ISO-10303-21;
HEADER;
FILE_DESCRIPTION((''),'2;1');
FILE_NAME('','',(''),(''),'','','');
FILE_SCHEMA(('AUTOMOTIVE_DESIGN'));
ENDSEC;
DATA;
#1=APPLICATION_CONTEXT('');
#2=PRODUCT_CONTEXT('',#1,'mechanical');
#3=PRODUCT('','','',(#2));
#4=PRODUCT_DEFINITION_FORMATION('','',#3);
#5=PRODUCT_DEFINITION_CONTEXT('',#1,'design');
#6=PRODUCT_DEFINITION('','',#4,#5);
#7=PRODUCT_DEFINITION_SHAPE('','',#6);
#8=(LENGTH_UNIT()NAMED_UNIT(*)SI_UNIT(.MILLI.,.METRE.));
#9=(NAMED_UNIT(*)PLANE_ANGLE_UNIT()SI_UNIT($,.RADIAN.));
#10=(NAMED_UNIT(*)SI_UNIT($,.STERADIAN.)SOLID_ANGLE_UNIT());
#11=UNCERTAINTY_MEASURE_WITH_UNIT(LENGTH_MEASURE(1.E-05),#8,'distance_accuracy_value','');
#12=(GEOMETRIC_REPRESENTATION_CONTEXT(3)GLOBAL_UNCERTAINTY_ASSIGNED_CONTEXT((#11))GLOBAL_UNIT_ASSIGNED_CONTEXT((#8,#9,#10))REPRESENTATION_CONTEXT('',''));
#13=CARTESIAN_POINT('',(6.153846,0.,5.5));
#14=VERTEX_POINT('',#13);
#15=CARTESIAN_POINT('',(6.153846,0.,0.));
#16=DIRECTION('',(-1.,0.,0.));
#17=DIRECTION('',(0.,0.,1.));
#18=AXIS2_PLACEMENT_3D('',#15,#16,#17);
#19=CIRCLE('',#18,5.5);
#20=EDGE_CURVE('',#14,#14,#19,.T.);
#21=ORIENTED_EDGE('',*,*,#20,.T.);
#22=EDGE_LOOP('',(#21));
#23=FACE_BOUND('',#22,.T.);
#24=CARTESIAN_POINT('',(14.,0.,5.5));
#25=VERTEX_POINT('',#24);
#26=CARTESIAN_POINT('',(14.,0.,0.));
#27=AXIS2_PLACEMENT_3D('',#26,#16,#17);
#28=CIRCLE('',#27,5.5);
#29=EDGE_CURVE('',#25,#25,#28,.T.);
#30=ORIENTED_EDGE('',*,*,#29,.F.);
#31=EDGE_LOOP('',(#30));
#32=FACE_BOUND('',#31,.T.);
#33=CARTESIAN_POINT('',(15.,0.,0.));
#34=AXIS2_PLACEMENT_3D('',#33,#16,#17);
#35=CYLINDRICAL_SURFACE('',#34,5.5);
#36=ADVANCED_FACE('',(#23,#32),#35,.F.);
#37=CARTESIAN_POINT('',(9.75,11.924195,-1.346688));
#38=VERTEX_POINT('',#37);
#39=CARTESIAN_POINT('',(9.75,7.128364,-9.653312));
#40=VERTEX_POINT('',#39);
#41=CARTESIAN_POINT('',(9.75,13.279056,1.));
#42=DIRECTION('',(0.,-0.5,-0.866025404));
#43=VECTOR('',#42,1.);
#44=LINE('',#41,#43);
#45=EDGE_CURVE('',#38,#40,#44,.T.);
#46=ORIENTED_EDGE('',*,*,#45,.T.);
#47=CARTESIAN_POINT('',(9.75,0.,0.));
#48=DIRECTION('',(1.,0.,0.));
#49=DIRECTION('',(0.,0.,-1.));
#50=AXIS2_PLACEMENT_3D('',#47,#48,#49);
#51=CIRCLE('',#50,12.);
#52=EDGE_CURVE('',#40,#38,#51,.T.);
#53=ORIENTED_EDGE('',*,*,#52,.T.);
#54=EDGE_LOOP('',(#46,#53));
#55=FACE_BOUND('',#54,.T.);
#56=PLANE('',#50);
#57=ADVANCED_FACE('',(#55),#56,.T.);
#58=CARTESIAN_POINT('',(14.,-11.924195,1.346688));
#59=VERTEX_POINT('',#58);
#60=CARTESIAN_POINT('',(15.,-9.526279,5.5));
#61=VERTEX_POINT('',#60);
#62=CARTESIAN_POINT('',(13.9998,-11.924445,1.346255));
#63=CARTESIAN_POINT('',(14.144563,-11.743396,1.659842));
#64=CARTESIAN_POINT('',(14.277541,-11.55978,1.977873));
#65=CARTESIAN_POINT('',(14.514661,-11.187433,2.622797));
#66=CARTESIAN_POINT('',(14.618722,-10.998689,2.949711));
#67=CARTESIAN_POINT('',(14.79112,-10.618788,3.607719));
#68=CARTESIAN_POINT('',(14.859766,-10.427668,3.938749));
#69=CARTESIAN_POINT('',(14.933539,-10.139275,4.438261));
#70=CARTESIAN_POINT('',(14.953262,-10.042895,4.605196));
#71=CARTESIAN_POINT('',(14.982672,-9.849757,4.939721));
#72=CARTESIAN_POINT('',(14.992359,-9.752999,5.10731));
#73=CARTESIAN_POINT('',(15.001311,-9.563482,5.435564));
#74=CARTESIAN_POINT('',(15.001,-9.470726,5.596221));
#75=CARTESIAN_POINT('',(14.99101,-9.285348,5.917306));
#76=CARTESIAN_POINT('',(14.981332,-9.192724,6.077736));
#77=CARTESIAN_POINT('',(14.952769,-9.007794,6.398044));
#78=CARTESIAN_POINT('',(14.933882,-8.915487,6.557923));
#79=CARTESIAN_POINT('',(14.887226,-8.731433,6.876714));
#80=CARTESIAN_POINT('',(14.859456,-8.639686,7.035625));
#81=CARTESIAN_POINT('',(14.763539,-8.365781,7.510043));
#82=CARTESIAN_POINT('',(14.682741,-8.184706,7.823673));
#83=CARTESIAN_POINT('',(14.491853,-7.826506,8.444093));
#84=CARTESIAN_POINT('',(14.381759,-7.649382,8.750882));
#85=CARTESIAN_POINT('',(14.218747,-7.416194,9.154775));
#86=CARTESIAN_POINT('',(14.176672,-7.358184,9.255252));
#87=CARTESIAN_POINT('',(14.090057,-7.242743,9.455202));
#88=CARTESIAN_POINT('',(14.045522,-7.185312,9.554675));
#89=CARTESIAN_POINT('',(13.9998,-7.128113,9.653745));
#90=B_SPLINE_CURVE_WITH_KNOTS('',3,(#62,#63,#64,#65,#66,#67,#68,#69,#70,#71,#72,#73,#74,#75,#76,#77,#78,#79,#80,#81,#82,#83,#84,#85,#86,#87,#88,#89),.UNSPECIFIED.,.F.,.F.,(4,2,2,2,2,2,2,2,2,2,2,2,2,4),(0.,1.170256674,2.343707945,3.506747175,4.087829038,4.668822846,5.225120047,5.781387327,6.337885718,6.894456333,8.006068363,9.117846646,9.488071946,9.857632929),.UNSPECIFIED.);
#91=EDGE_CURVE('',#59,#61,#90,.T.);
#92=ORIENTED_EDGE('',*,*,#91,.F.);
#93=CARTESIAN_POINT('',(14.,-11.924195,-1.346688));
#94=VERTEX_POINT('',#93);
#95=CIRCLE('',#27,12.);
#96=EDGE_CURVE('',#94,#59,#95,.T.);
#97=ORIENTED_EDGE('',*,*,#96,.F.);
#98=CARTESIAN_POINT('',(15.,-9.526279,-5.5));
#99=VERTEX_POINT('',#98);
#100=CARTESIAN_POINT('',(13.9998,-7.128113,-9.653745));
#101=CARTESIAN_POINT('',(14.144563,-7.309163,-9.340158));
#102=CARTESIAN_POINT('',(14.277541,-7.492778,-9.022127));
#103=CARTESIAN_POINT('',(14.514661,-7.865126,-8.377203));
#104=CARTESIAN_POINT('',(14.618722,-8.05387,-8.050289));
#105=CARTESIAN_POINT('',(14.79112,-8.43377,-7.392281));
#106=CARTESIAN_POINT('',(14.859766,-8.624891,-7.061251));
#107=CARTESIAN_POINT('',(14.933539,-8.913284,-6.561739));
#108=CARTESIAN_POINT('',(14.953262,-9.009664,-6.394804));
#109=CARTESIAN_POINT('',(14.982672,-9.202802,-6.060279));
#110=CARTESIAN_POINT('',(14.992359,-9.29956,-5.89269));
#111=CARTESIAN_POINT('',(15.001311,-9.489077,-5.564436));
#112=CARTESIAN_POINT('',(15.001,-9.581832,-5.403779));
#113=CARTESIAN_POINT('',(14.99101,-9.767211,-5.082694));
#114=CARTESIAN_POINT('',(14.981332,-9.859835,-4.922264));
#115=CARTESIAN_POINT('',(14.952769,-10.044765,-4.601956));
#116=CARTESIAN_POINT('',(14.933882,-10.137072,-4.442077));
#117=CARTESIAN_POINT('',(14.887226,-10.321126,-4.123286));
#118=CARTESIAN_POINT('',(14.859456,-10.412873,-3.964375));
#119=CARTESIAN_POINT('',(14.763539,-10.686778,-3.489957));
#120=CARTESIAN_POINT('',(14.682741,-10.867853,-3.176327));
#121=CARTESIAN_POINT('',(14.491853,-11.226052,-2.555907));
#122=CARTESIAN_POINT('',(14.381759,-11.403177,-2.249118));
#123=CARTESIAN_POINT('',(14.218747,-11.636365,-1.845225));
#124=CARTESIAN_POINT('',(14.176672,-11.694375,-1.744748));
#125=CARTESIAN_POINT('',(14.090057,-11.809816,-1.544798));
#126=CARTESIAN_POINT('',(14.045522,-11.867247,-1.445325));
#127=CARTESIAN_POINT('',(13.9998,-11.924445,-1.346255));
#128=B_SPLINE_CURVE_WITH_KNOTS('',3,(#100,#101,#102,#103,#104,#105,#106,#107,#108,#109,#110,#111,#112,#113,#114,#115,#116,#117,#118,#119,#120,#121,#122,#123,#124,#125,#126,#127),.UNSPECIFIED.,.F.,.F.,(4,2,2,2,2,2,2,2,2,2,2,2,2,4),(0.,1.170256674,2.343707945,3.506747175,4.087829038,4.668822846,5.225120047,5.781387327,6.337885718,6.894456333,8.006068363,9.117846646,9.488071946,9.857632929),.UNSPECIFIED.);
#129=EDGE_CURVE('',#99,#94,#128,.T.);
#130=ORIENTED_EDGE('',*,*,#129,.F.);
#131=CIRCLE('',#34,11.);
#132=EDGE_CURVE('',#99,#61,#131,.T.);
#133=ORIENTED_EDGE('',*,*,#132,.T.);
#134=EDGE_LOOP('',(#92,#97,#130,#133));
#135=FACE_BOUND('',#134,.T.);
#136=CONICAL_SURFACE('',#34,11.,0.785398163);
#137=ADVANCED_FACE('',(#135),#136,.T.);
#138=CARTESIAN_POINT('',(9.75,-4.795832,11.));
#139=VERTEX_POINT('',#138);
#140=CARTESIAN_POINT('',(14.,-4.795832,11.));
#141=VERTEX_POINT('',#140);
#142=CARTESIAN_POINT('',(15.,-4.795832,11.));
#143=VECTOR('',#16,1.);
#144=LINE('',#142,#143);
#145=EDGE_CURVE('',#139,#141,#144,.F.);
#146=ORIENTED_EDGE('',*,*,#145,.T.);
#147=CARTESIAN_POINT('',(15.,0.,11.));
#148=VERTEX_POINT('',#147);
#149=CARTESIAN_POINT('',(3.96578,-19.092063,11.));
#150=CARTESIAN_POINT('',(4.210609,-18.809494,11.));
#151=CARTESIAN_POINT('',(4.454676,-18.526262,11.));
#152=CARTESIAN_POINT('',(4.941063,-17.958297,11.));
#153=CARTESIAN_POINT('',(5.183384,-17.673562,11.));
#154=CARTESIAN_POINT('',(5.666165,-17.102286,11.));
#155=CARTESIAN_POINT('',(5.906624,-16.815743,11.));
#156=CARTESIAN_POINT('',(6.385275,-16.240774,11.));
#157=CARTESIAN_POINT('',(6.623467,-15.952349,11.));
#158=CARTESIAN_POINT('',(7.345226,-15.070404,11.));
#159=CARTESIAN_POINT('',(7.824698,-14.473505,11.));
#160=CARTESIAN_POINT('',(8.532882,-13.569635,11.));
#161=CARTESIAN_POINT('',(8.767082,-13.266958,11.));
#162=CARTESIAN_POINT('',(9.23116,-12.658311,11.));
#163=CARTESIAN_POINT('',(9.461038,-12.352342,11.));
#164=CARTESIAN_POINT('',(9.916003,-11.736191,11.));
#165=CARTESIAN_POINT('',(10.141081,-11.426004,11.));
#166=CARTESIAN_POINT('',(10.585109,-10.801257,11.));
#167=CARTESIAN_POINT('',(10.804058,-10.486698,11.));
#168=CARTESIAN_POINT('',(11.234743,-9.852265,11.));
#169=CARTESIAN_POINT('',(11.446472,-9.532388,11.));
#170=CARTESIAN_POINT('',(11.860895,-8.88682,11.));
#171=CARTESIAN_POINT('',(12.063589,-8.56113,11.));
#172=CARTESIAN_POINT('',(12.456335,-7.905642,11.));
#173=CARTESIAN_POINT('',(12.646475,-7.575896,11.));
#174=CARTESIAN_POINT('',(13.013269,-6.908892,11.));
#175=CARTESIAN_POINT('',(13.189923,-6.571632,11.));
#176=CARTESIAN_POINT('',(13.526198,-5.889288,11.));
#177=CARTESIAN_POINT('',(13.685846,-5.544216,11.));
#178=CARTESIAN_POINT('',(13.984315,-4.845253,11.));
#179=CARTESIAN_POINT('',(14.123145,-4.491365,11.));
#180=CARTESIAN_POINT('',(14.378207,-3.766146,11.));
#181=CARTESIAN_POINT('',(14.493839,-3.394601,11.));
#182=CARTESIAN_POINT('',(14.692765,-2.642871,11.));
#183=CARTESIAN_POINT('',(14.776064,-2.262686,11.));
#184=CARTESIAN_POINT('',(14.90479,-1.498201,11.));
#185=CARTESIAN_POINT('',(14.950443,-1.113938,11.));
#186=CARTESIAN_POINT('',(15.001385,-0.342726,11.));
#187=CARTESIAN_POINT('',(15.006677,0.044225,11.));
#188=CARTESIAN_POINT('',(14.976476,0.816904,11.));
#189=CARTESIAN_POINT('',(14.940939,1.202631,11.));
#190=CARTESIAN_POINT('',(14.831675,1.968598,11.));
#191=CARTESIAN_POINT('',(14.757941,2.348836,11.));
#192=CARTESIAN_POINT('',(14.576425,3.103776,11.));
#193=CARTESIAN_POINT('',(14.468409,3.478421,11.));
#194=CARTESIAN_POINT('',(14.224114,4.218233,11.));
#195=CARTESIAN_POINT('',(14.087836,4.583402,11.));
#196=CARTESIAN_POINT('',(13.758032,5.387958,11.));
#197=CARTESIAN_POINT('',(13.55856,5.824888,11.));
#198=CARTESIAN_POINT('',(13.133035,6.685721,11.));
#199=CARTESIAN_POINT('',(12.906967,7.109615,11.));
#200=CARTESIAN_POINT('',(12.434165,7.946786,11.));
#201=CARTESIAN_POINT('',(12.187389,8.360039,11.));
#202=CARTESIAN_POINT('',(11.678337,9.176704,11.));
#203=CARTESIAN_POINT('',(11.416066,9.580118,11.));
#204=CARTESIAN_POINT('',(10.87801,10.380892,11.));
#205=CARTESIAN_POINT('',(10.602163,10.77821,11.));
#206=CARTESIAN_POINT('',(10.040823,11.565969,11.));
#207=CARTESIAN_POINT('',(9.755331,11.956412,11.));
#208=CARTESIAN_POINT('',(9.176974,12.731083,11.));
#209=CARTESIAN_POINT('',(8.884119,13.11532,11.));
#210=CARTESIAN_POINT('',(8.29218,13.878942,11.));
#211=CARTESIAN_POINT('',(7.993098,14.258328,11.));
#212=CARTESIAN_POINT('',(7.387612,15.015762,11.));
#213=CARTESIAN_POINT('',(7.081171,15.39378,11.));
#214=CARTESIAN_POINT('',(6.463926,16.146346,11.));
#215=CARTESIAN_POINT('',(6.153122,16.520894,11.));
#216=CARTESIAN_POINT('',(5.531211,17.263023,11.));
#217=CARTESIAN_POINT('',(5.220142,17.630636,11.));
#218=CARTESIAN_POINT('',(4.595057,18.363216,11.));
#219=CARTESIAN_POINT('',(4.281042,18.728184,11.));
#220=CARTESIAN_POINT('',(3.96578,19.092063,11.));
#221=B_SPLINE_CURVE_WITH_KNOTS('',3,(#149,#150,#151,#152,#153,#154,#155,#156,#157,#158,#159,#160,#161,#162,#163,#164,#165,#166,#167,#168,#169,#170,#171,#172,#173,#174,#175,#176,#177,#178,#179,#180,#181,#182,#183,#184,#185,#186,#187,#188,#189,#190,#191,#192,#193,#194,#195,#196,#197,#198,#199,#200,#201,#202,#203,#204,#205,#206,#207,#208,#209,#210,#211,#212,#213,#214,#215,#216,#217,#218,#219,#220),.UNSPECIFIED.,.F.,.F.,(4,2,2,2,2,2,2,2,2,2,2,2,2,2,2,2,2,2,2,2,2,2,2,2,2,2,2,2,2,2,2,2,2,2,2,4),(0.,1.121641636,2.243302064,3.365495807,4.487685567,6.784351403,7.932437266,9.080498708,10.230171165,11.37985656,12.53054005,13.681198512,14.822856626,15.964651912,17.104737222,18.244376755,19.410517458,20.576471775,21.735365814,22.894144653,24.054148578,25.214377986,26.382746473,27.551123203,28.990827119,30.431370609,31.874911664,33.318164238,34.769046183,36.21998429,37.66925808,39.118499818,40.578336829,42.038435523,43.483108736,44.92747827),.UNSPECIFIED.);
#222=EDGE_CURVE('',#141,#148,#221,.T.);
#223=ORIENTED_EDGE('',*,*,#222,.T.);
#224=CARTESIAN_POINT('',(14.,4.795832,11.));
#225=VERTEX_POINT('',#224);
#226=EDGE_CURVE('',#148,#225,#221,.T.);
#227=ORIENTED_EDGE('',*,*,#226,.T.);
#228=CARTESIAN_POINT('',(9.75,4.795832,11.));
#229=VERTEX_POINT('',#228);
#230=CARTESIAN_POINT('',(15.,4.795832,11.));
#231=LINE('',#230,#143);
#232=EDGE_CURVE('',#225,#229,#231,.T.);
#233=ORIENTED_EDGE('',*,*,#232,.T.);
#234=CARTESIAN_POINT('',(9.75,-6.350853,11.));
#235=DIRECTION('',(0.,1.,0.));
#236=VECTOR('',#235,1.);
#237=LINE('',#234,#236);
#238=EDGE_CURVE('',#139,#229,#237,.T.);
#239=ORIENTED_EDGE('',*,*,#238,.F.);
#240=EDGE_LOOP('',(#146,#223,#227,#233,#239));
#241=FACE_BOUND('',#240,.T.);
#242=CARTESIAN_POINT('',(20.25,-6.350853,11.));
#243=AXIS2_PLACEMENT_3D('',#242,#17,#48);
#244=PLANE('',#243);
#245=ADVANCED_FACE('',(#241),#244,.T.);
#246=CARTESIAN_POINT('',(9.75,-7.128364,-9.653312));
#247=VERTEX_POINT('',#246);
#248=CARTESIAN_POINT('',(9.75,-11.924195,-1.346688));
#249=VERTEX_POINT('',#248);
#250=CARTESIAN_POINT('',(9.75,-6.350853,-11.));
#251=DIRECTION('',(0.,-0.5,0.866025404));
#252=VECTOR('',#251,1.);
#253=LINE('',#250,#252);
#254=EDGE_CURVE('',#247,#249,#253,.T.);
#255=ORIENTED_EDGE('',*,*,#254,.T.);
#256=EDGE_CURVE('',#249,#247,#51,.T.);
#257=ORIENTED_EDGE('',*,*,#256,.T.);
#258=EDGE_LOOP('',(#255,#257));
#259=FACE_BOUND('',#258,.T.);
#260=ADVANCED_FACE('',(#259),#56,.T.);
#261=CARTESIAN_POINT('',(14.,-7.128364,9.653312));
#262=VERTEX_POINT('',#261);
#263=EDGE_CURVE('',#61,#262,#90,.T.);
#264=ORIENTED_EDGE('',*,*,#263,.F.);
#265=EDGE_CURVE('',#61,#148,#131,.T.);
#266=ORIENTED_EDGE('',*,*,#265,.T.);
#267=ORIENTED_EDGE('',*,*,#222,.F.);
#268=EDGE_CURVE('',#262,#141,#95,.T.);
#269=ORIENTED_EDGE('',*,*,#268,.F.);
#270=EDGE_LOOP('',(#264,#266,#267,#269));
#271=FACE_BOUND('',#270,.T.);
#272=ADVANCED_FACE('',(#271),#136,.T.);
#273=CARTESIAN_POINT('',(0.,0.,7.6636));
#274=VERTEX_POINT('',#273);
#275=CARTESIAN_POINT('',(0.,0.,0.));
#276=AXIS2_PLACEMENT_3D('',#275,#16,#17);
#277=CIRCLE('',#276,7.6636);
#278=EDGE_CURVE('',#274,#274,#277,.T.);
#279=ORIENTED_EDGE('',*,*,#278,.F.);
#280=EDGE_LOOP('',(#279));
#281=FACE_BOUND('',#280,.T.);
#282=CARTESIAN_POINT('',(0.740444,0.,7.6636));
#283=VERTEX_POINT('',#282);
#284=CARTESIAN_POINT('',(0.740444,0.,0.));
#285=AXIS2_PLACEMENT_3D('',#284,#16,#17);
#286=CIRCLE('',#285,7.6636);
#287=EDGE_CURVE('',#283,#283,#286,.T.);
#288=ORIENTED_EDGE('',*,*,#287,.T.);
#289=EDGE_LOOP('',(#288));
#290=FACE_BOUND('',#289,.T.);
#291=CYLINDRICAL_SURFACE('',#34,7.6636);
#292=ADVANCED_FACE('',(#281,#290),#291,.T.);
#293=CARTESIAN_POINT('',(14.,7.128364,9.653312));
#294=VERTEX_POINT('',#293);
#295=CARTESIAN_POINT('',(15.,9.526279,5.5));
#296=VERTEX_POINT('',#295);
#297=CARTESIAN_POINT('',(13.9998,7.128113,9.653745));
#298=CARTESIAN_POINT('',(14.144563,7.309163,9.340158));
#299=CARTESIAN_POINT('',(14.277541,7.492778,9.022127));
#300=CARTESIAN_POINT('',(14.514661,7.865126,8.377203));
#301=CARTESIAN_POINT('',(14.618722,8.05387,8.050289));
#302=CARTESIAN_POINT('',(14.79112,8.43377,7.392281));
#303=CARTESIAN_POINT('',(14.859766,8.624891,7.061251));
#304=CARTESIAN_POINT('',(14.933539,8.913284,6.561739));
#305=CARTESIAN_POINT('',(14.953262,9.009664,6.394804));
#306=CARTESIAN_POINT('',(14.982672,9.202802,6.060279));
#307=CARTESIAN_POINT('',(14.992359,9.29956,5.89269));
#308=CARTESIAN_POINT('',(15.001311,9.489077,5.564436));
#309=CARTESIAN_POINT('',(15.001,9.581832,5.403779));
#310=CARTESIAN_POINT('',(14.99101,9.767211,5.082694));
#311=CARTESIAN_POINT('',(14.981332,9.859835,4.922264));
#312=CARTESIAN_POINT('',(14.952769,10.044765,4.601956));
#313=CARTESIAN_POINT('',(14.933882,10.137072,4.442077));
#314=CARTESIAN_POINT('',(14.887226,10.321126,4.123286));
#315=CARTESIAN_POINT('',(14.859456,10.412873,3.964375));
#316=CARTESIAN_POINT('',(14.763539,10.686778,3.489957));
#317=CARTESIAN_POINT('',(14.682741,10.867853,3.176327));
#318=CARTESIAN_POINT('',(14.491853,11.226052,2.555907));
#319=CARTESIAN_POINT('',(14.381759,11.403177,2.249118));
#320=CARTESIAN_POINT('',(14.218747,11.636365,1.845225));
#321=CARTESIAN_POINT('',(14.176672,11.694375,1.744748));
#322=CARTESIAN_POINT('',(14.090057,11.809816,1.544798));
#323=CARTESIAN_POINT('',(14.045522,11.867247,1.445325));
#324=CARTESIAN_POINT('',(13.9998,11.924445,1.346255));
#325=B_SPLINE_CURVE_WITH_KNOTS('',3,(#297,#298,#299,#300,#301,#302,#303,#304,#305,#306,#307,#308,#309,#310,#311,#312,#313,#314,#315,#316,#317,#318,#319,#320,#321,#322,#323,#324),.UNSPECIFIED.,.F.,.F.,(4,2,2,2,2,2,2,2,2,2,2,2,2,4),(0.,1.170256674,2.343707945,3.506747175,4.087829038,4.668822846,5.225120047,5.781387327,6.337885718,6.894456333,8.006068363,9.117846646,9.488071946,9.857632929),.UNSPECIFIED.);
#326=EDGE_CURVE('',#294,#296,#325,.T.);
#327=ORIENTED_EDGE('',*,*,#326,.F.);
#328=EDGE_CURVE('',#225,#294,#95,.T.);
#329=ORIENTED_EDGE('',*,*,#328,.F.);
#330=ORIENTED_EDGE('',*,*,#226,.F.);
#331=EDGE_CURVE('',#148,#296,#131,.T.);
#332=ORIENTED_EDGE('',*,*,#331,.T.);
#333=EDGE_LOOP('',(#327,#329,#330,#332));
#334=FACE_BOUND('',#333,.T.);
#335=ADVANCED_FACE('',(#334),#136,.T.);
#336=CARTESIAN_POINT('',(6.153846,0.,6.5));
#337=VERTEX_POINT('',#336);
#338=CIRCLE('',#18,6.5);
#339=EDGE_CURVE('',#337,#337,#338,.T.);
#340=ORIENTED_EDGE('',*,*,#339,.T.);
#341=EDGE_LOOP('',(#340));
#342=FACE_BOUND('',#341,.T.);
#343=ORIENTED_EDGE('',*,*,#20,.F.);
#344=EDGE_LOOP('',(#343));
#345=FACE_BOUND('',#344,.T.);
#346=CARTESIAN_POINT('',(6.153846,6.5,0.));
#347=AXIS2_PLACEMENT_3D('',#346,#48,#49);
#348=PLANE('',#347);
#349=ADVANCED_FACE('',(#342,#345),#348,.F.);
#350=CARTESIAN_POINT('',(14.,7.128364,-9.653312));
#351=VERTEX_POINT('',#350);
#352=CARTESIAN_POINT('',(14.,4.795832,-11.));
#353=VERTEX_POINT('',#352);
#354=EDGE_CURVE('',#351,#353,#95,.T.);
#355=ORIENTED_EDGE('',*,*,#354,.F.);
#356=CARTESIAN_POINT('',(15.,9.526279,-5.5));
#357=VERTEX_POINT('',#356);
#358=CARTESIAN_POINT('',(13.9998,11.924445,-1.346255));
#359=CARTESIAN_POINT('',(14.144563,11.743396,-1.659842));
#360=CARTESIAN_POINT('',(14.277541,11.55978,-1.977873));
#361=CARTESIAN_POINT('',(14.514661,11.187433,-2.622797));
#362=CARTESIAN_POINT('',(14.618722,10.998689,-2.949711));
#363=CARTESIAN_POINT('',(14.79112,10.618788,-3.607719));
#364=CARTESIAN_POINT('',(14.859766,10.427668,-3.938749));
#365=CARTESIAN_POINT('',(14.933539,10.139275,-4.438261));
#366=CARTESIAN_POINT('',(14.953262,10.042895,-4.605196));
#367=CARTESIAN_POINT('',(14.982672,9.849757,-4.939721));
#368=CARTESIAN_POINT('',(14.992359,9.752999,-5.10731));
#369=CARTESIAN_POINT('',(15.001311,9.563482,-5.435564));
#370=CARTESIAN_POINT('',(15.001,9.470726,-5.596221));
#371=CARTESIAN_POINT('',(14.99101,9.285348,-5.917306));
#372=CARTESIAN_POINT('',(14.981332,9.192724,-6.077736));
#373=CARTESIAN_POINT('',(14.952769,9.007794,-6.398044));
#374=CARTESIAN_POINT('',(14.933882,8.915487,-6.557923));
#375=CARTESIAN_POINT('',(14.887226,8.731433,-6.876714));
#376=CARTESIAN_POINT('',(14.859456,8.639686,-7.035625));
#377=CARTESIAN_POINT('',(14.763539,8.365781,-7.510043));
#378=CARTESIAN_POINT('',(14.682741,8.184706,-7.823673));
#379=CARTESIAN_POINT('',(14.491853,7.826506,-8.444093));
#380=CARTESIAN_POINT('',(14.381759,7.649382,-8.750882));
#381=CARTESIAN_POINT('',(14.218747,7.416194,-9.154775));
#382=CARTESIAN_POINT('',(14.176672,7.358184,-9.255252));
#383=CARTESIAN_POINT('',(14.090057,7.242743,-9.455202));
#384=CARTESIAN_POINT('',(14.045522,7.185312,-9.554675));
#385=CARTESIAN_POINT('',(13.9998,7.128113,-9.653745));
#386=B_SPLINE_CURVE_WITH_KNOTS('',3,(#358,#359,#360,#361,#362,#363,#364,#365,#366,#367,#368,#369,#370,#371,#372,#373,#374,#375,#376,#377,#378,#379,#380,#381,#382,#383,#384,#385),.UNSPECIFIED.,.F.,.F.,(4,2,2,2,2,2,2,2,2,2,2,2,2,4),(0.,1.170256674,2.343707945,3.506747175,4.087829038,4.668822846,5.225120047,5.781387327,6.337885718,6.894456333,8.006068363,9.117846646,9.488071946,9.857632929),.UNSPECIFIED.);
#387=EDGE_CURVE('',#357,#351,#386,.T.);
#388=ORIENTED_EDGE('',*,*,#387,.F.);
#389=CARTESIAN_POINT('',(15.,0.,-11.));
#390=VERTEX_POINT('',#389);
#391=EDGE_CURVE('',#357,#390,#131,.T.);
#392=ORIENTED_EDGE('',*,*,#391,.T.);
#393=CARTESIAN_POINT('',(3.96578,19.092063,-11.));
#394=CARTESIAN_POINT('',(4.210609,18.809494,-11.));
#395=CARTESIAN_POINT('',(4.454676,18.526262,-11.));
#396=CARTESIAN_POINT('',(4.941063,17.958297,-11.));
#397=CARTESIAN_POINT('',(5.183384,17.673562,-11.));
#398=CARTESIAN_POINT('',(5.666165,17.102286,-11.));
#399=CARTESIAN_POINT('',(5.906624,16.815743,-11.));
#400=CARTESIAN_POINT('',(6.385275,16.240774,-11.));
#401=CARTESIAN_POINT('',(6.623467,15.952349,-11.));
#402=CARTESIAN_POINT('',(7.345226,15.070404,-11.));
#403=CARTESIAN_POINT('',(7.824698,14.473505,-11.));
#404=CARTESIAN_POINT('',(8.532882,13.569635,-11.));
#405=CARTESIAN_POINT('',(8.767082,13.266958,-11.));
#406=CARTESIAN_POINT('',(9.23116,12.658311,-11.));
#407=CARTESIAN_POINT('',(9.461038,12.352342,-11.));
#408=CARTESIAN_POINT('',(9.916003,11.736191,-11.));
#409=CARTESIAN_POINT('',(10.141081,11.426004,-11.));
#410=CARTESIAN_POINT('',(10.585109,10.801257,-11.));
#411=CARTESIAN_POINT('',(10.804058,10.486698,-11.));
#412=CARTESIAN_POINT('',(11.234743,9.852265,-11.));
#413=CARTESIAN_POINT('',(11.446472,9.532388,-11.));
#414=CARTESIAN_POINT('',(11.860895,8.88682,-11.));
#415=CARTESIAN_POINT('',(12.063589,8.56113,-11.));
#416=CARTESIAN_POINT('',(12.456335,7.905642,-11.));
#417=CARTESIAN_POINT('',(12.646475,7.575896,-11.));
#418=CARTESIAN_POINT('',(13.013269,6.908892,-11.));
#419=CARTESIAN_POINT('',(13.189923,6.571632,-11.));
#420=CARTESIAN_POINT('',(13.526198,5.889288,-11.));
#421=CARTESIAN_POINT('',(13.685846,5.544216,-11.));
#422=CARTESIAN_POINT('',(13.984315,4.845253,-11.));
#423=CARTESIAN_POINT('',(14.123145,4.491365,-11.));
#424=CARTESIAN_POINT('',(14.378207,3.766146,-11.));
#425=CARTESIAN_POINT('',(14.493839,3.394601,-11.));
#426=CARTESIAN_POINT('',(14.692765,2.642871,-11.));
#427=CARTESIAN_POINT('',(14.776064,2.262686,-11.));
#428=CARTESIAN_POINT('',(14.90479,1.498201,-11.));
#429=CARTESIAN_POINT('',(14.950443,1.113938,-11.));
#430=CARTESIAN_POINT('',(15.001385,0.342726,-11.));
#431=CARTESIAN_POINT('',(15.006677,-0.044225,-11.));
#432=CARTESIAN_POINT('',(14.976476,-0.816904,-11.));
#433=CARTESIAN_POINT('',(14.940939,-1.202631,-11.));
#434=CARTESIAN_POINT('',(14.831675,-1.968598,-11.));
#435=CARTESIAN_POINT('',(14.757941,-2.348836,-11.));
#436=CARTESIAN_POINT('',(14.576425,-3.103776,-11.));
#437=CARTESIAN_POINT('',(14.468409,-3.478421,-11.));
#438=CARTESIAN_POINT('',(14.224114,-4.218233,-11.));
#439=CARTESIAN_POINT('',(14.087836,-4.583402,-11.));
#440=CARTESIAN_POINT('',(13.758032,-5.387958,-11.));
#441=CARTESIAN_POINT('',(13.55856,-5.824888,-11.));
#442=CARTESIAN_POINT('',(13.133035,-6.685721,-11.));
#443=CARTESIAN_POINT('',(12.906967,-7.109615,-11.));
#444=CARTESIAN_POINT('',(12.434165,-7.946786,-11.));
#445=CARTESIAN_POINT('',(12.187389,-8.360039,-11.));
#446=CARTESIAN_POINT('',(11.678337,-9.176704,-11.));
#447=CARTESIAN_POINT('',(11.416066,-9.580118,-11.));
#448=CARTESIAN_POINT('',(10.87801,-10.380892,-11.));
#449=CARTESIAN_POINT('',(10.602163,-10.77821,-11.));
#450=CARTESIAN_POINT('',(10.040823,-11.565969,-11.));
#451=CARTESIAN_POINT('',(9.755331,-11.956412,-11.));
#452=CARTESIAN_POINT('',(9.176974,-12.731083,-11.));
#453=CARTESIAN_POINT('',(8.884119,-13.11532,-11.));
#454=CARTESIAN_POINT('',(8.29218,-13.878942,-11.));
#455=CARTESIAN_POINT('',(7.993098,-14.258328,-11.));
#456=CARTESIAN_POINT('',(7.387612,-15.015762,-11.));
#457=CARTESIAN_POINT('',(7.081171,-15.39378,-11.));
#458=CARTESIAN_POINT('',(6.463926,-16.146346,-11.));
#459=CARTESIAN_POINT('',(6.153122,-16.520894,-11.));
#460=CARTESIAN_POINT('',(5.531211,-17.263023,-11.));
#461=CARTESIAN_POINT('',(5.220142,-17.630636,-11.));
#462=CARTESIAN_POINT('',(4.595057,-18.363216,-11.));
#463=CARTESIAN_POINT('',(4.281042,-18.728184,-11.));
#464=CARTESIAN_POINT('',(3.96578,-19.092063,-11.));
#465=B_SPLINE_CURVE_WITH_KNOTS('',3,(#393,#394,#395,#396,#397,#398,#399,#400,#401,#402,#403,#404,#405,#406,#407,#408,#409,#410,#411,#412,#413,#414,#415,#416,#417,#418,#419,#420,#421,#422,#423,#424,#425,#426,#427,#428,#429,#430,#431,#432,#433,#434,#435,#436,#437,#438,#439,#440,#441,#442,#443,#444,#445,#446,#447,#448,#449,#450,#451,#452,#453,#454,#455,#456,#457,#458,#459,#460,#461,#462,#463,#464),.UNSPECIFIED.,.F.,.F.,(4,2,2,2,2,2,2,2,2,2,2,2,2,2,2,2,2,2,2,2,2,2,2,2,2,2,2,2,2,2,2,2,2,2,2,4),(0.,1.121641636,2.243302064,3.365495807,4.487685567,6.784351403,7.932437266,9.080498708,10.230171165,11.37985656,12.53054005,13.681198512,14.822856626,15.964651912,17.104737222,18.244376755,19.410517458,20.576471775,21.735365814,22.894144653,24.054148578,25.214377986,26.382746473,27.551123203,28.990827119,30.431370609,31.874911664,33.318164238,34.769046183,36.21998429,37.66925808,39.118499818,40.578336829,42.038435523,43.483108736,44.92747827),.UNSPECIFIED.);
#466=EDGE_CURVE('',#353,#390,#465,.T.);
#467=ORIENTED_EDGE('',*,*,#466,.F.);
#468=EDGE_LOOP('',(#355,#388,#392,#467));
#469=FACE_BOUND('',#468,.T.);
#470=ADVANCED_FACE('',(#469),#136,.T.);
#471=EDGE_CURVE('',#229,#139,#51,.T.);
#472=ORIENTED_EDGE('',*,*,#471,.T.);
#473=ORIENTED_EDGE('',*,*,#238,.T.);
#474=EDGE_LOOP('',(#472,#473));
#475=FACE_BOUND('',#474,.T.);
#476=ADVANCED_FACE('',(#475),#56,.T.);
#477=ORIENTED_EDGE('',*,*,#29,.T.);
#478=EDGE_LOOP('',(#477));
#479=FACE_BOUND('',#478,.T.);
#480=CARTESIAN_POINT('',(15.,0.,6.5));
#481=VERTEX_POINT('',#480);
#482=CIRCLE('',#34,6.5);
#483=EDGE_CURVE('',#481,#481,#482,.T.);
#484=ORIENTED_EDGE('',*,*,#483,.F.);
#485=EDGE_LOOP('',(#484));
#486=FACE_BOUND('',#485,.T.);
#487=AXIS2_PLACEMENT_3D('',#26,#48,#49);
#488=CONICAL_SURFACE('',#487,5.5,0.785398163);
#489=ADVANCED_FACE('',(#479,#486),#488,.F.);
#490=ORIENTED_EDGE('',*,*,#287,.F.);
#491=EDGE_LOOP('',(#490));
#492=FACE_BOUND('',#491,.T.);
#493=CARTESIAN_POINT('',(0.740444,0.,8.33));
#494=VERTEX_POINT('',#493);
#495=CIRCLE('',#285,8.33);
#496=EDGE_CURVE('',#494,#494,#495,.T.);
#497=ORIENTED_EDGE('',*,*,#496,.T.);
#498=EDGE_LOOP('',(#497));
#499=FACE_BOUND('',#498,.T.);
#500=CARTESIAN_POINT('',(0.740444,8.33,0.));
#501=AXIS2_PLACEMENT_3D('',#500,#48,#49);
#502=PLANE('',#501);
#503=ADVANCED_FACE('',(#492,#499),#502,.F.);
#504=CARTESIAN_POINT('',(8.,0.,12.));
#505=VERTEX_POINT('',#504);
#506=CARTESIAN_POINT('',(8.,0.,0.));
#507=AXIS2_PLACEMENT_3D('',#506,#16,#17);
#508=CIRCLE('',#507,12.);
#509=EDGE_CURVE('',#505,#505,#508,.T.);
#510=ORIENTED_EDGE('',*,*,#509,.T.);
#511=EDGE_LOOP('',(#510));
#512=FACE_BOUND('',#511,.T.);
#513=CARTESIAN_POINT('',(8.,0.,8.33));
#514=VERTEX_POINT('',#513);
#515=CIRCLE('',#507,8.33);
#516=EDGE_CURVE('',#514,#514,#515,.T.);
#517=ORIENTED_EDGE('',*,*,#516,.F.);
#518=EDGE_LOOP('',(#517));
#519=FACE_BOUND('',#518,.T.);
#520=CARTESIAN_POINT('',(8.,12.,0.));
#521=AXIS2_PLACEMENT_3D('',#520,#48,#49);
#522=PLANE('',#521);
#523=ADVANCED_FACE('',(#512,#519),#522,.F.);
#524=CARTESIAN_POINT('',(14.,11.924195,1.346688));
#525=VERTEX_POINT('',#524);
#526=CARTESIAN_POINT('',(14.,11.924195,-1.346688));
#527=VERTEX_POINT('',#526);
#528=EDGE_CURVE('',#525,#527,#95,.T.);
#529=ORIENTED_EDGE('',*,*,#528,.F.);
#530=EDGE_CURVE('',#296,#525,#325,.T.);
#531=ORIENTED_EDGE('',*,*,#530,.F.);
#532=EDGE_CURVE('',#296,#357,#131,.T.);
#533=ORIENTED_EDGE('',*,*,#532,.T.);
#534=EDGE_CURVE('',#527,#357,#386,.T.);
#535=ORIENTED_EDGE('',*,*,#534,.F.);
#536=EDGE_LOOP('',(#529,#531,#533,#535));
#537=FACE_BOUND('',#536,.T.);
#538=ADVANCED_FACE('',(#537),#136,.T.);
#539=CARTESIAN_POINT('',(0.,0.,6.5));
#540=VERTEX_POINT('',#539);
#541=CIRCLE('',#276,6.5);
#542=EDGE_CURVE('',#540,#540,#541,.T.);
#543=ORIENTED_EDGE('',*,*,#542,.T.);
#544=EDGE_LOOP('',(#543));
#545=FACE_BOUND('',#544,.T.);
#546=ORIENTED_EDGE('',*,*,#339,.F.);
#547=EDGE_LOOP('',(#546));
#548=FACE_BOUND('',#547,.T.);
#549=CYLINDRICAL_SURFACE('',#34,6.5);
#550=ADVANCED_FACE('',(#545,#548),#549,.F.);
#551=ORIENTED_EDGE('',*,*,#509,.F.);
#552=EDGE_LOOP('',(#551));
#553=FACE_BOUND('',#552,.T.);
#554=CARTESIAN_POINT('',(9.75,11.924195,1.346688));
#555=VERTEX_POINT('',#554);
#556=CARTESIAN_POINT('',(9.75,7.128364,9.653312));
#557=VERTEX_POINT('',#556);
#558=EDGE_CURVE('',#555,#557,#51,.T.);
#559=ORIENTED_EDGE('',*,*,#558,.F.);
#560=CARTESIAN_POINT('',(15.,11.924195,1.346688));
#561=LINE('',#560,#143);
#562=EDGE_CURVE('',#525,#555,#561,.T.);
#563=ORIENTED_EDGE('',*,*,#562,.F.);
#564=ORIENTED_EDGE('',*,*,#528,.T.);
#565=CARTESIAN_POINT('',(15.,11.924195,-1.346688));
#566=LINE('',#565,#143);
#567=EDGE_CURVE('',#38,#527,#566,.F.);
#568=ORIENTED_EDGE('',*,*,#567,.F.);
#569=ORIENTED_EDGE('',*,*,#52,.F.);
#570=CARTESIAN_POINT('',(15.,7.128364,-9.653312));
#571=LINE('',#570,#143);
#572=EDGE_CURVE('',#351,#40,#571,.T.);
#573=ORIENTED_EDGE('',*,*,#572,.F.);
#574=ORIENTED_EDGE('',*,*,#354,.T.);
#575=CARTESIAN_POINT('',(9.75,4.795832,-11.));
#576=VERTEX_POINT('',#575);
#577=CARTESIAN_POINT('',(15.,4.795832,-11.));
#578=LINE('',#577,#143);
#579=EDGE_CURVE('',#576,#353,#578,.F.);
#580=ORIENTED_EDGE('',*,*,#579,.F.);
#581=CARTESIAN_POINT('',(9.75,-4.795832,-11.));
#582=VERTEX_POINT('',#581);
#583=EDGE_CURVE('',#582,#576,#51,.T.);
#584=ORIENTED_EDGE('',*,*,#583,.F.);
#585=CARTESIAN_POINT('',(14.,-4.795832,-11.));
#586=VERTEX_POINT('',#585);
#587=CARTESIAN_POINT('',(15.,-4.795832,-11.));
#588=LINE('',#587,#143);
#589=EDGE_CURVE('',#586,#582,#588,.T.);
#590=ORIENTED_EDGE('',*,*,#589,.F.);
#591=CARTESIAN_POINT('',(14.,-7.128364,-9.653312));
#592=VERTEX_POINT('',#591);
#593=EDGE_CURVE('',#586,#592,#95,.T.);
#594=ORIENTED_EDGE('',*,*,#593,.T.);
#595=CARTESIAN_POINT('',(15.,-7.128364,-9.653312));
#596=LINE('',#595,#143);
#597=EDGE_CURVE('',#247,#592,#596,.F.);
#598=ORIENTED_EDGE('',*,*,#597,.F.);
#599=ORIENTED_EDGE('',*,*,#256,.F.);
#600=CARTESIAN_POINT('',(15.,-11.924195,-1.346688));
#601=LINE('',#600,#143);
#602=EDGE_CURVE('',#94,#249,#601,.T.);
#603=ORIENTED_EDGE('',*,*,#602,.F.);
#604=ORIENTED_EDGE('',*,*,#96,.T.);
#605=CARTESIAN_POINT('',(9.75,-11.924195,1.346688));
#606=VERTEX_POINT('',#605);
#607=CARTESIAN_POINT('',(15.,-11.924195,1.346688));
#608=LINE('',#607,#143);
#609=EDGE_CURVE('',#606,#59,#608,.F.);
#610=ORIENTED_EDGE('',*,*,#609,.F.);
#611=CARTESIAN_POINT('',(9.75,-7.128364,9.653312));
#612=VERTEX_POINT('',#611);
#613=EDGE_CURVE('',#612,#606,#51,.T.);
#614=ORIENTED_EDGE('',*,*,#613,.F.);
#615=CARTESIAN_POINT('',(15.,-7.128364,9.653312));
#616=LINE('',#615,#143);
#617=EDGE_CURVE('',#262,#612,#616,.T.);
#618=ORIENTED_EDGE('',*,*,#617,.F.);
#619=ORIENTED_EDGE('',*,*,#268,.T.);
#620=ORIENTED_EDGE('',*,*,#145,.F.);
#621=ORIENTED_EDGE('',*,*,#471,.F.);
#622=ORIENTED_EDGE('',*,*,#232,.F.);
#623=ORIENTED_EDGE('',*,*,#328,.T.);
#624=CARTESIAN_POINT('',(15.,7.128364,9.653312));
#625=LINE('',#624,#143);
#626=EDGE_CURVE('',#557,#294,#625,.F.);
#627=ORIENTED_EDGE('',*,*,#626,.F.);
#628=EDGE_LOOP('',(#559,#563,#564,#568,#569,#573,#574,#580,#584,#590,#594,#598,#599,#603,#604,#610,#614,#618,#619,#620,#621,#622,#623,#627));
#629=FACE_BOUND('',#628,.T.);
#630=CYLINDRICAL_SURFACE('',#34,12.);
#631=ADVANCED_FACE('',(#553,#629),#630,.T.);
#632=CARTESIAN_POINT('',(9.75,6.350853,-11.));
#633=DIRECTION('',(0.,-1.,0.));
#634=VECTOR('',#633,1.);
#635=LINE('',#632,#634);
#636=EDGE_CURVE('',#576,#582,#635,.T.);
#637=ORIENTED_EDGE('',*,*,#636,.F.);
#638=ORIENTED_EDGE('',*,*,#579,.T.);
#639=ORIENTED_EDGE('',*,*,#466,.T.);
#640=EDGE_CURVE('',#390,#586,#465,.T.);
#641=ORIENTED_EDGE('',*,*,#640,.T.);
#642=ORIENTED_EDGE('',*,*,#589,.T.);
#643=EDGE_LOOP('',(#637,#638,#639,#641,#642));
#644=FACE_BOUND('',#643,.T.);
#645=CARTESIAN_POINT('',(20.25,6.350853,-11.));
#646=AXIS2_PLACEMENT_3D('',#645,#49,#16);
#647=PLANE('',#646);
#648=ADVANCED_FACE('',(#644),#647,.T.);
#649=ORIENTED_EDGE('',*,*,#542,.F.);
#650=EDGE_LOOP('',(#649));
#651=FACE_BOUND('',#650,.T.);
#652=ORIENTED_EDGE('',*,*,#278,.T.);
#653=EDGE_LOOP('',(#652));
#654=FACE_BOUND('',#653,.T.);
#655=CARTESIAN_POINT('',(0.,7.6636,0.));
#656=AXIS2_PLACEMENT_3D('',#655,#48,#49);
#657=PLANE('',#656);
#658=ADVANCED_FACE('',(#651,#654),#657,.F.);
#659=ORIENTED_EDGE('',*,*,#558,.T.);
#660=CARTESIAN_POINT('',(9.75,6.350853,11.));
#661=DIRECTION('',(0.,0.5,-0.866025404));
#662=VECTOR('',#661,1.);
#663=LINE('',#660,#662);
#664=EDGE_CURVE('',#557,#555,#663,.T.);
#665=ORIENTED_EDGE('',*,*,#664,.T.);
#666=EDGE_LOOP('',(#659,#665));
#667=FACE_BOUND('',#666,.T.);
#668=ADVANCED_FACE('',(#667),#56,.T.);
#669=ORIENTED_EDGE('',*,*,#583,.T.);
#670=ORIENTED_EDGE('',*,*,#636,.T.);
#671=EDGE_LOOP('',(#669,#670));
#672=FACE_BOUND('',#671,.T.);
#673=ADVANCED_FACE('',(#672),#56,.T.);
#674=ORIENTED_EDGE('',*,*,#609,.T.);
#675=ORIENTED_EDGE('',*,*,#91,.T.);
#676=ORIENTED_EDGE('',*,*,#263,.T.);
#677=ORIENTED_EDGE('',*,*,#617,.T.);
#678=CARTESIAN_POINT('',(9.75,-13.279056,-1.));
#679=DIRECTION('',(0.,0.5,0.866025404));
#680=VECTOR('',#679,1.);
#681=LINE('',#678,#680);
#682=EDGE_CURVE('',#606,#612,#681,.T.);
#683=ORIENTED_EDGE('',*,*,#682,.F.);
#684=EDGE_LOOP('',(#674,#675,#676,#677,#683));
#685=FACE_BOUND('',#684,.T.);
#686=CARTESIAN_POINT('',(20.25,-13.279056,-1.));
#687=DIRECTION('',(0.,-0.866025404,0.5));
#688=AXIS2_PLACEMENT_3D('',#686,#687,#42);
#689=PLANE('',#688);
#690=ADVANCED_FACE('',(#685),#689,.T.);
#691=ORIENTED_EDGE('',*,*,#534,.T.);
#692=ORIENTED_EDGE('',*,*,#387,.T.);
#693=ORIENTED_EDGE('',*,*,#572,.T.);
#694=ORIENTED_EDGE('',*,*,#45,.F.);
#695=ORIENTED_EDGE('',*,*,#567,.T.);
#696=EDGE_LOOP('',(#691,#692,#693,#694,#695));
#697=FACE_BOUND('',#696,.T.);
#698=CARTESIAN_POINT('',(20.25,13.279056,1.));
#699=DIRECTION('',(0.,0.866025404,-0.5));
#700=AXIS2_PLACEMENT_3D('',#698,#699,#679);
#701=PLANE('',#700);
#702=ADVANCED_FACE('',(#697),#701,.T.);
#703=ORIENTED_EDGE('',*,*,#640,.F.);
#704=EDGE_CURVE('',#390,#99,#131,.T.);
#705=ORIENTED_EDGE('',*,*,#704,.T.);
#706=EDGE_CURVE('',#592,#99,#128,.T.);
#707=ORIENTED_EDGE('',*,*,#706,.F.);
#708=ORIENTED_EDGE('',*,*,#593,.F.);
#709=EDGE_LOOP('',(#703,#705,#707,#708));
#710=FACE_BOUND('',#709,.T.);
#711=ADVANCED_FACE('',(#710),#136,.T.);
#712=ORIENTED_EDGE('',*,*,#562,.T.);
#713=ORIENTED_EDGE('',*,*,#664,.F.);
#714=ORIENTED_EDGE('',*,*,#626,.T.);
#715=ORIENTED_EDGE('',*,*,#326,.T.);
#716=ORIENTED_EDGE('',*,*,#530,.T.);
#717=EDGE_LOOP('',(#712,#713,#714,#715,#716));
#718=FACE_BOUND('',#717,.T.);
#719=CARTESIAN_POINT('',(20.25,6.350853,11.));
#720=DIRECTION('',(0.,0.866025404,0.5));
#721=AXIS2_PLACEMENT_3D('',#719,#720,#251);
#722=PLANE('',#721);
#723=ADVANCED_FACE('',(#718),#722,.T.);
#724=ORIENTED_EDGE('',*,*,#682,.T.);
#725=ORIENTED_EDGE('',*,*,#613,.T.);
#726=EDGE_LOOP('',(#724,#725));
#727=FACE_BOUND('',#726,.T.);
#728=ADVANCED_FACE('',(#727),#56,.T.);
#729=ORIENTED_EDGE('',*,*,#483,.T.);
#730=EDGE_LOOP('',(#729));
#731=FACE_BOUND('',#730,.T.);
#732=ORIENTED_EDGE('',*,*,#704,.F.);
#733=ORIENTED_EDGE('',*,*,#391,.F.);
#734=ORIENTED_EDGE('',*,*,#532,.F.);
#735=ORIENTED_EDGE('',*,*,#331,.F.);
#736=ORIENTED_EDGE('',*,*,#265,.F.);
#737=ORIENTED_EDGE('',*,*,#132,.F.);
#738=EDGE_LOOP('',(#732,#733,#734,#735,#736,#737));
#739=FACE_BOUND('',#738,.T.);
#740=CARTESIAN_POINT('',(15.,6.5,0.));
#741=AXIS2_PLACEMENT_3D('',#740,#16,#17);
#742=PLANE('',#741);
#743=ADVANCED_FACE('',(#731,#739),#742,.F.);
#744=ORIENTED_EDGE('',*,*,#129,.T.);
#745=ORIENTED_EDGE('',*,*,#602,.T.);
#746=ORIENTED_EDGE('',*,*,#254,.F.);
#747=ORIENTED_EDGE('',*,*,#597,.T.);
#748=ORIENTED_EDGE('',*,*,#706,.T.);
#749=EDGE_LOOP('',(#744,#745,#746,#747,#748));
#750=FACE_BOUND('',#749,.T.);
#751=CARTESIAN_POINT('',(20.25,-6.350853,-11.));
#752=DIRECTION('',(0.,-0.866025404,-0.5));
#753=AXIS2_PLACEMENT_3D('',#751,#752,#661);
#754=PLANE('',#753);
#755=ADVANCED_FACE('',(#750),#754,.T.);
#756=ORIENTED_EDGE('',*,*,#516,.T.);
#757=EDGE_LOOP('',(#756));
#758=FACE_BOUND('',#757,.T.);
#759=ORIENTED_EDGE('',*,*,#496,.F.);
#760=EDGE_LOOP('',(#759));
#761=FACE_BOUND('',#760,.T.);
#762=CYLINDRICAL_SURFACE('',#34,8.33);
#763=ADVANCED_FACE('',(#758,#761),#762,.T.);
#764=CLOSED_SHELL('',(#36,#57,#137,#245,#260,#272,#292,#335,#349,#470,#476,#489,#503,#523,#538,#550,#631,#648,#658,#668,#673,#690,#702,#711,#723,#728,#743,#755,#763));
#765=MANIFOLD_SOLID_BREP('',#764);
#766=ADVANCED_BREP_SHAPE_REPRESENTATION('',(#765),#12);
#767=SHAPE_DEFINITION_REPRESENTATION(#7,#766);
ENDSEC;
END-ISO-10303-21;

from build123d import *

# Parameters (mm, degrees)
TAGLIO_ESTRUSIONE1_DEPTH      = 5.25
TAGLIO_ESTRUSIONE1_DEPTH_BACK = 5.25
TAGLIO_ESTRUSIONE2_DEPTH      = 5.25
TAGLIO_ESTRUSIONE2_DEPTH_BACK = 5.25


with BuildPart() as part:
    # Schizzo1 → Rivoluzione1 (revolve)
    with BuildSketch(Plane.XY):
        Polygon((0, 6.5), (6.153846154, 6.5), (6.153846154, 5.5), (14, 5.5), (15, 6.5), (15, 11), (14, 12), (8, 12), (8, 8.33), (0.740444444, 8.33), (0.740444444, 7.6636), (0, 7.6636), align=None)
    revolve(axis=Axis((15, 0, 0), (-1, 0, 0)))

    # Schizzo2 → Taglio-Estrusione1 (cut, two sides: drawn at the far end of the back side and taken through both)
    with BuildSketch(Plane(origin=(15, 0, 0), x_dir=(0, 0, -1), z_dir=(1, 0, 0)).offset(-TAGLIO_ESTRUSIONE1_DEPTH_BACK)):
        Polygon((-16.5, -9.526279442), (1, -19.629909152), (1, -13.279056191), (-11, -6.350852961), (-11, 6.350852961), (1, 13.279056191), (1, 19.629909152), (-16.5, 9.526279442), align=None)
    extrude(amount=TAGLIO_ESTRUSIONE1_DEPTH + TAGLIO_ESTRUSIONE1_DEPTH_BACK, mode=Mode.SUBTRACT)

    # Schizzo3 → Taglio-Estrusione2 (cut, two sides: drawn at the far end of the back side and taken through both)
    with BuildSketch(Plane(origin=(15, 0, 0), x_dir=(0, 0, -1), z_dir=(1, 0, 0)).offset(-TAGLIO_ESTRUSIONE2_DEPTH_BACK)):
        Polygon((-1, -19.629909152), (16.5, -9.526279442), (16.5, 9.526279442), (-1, 19.629909152), (-1, 13.279056191), (11, 6.350852961), (11, -6.350852961), (-1, -13.279056191), align=None)
    extrude(amount=TAGLIO_ESTRUSIONE2_DEPTH + TAGLIO_ESTRUSIONE2_DEPTH_BACK, mode=Mode.SUBTRACT)


solid = part.part
